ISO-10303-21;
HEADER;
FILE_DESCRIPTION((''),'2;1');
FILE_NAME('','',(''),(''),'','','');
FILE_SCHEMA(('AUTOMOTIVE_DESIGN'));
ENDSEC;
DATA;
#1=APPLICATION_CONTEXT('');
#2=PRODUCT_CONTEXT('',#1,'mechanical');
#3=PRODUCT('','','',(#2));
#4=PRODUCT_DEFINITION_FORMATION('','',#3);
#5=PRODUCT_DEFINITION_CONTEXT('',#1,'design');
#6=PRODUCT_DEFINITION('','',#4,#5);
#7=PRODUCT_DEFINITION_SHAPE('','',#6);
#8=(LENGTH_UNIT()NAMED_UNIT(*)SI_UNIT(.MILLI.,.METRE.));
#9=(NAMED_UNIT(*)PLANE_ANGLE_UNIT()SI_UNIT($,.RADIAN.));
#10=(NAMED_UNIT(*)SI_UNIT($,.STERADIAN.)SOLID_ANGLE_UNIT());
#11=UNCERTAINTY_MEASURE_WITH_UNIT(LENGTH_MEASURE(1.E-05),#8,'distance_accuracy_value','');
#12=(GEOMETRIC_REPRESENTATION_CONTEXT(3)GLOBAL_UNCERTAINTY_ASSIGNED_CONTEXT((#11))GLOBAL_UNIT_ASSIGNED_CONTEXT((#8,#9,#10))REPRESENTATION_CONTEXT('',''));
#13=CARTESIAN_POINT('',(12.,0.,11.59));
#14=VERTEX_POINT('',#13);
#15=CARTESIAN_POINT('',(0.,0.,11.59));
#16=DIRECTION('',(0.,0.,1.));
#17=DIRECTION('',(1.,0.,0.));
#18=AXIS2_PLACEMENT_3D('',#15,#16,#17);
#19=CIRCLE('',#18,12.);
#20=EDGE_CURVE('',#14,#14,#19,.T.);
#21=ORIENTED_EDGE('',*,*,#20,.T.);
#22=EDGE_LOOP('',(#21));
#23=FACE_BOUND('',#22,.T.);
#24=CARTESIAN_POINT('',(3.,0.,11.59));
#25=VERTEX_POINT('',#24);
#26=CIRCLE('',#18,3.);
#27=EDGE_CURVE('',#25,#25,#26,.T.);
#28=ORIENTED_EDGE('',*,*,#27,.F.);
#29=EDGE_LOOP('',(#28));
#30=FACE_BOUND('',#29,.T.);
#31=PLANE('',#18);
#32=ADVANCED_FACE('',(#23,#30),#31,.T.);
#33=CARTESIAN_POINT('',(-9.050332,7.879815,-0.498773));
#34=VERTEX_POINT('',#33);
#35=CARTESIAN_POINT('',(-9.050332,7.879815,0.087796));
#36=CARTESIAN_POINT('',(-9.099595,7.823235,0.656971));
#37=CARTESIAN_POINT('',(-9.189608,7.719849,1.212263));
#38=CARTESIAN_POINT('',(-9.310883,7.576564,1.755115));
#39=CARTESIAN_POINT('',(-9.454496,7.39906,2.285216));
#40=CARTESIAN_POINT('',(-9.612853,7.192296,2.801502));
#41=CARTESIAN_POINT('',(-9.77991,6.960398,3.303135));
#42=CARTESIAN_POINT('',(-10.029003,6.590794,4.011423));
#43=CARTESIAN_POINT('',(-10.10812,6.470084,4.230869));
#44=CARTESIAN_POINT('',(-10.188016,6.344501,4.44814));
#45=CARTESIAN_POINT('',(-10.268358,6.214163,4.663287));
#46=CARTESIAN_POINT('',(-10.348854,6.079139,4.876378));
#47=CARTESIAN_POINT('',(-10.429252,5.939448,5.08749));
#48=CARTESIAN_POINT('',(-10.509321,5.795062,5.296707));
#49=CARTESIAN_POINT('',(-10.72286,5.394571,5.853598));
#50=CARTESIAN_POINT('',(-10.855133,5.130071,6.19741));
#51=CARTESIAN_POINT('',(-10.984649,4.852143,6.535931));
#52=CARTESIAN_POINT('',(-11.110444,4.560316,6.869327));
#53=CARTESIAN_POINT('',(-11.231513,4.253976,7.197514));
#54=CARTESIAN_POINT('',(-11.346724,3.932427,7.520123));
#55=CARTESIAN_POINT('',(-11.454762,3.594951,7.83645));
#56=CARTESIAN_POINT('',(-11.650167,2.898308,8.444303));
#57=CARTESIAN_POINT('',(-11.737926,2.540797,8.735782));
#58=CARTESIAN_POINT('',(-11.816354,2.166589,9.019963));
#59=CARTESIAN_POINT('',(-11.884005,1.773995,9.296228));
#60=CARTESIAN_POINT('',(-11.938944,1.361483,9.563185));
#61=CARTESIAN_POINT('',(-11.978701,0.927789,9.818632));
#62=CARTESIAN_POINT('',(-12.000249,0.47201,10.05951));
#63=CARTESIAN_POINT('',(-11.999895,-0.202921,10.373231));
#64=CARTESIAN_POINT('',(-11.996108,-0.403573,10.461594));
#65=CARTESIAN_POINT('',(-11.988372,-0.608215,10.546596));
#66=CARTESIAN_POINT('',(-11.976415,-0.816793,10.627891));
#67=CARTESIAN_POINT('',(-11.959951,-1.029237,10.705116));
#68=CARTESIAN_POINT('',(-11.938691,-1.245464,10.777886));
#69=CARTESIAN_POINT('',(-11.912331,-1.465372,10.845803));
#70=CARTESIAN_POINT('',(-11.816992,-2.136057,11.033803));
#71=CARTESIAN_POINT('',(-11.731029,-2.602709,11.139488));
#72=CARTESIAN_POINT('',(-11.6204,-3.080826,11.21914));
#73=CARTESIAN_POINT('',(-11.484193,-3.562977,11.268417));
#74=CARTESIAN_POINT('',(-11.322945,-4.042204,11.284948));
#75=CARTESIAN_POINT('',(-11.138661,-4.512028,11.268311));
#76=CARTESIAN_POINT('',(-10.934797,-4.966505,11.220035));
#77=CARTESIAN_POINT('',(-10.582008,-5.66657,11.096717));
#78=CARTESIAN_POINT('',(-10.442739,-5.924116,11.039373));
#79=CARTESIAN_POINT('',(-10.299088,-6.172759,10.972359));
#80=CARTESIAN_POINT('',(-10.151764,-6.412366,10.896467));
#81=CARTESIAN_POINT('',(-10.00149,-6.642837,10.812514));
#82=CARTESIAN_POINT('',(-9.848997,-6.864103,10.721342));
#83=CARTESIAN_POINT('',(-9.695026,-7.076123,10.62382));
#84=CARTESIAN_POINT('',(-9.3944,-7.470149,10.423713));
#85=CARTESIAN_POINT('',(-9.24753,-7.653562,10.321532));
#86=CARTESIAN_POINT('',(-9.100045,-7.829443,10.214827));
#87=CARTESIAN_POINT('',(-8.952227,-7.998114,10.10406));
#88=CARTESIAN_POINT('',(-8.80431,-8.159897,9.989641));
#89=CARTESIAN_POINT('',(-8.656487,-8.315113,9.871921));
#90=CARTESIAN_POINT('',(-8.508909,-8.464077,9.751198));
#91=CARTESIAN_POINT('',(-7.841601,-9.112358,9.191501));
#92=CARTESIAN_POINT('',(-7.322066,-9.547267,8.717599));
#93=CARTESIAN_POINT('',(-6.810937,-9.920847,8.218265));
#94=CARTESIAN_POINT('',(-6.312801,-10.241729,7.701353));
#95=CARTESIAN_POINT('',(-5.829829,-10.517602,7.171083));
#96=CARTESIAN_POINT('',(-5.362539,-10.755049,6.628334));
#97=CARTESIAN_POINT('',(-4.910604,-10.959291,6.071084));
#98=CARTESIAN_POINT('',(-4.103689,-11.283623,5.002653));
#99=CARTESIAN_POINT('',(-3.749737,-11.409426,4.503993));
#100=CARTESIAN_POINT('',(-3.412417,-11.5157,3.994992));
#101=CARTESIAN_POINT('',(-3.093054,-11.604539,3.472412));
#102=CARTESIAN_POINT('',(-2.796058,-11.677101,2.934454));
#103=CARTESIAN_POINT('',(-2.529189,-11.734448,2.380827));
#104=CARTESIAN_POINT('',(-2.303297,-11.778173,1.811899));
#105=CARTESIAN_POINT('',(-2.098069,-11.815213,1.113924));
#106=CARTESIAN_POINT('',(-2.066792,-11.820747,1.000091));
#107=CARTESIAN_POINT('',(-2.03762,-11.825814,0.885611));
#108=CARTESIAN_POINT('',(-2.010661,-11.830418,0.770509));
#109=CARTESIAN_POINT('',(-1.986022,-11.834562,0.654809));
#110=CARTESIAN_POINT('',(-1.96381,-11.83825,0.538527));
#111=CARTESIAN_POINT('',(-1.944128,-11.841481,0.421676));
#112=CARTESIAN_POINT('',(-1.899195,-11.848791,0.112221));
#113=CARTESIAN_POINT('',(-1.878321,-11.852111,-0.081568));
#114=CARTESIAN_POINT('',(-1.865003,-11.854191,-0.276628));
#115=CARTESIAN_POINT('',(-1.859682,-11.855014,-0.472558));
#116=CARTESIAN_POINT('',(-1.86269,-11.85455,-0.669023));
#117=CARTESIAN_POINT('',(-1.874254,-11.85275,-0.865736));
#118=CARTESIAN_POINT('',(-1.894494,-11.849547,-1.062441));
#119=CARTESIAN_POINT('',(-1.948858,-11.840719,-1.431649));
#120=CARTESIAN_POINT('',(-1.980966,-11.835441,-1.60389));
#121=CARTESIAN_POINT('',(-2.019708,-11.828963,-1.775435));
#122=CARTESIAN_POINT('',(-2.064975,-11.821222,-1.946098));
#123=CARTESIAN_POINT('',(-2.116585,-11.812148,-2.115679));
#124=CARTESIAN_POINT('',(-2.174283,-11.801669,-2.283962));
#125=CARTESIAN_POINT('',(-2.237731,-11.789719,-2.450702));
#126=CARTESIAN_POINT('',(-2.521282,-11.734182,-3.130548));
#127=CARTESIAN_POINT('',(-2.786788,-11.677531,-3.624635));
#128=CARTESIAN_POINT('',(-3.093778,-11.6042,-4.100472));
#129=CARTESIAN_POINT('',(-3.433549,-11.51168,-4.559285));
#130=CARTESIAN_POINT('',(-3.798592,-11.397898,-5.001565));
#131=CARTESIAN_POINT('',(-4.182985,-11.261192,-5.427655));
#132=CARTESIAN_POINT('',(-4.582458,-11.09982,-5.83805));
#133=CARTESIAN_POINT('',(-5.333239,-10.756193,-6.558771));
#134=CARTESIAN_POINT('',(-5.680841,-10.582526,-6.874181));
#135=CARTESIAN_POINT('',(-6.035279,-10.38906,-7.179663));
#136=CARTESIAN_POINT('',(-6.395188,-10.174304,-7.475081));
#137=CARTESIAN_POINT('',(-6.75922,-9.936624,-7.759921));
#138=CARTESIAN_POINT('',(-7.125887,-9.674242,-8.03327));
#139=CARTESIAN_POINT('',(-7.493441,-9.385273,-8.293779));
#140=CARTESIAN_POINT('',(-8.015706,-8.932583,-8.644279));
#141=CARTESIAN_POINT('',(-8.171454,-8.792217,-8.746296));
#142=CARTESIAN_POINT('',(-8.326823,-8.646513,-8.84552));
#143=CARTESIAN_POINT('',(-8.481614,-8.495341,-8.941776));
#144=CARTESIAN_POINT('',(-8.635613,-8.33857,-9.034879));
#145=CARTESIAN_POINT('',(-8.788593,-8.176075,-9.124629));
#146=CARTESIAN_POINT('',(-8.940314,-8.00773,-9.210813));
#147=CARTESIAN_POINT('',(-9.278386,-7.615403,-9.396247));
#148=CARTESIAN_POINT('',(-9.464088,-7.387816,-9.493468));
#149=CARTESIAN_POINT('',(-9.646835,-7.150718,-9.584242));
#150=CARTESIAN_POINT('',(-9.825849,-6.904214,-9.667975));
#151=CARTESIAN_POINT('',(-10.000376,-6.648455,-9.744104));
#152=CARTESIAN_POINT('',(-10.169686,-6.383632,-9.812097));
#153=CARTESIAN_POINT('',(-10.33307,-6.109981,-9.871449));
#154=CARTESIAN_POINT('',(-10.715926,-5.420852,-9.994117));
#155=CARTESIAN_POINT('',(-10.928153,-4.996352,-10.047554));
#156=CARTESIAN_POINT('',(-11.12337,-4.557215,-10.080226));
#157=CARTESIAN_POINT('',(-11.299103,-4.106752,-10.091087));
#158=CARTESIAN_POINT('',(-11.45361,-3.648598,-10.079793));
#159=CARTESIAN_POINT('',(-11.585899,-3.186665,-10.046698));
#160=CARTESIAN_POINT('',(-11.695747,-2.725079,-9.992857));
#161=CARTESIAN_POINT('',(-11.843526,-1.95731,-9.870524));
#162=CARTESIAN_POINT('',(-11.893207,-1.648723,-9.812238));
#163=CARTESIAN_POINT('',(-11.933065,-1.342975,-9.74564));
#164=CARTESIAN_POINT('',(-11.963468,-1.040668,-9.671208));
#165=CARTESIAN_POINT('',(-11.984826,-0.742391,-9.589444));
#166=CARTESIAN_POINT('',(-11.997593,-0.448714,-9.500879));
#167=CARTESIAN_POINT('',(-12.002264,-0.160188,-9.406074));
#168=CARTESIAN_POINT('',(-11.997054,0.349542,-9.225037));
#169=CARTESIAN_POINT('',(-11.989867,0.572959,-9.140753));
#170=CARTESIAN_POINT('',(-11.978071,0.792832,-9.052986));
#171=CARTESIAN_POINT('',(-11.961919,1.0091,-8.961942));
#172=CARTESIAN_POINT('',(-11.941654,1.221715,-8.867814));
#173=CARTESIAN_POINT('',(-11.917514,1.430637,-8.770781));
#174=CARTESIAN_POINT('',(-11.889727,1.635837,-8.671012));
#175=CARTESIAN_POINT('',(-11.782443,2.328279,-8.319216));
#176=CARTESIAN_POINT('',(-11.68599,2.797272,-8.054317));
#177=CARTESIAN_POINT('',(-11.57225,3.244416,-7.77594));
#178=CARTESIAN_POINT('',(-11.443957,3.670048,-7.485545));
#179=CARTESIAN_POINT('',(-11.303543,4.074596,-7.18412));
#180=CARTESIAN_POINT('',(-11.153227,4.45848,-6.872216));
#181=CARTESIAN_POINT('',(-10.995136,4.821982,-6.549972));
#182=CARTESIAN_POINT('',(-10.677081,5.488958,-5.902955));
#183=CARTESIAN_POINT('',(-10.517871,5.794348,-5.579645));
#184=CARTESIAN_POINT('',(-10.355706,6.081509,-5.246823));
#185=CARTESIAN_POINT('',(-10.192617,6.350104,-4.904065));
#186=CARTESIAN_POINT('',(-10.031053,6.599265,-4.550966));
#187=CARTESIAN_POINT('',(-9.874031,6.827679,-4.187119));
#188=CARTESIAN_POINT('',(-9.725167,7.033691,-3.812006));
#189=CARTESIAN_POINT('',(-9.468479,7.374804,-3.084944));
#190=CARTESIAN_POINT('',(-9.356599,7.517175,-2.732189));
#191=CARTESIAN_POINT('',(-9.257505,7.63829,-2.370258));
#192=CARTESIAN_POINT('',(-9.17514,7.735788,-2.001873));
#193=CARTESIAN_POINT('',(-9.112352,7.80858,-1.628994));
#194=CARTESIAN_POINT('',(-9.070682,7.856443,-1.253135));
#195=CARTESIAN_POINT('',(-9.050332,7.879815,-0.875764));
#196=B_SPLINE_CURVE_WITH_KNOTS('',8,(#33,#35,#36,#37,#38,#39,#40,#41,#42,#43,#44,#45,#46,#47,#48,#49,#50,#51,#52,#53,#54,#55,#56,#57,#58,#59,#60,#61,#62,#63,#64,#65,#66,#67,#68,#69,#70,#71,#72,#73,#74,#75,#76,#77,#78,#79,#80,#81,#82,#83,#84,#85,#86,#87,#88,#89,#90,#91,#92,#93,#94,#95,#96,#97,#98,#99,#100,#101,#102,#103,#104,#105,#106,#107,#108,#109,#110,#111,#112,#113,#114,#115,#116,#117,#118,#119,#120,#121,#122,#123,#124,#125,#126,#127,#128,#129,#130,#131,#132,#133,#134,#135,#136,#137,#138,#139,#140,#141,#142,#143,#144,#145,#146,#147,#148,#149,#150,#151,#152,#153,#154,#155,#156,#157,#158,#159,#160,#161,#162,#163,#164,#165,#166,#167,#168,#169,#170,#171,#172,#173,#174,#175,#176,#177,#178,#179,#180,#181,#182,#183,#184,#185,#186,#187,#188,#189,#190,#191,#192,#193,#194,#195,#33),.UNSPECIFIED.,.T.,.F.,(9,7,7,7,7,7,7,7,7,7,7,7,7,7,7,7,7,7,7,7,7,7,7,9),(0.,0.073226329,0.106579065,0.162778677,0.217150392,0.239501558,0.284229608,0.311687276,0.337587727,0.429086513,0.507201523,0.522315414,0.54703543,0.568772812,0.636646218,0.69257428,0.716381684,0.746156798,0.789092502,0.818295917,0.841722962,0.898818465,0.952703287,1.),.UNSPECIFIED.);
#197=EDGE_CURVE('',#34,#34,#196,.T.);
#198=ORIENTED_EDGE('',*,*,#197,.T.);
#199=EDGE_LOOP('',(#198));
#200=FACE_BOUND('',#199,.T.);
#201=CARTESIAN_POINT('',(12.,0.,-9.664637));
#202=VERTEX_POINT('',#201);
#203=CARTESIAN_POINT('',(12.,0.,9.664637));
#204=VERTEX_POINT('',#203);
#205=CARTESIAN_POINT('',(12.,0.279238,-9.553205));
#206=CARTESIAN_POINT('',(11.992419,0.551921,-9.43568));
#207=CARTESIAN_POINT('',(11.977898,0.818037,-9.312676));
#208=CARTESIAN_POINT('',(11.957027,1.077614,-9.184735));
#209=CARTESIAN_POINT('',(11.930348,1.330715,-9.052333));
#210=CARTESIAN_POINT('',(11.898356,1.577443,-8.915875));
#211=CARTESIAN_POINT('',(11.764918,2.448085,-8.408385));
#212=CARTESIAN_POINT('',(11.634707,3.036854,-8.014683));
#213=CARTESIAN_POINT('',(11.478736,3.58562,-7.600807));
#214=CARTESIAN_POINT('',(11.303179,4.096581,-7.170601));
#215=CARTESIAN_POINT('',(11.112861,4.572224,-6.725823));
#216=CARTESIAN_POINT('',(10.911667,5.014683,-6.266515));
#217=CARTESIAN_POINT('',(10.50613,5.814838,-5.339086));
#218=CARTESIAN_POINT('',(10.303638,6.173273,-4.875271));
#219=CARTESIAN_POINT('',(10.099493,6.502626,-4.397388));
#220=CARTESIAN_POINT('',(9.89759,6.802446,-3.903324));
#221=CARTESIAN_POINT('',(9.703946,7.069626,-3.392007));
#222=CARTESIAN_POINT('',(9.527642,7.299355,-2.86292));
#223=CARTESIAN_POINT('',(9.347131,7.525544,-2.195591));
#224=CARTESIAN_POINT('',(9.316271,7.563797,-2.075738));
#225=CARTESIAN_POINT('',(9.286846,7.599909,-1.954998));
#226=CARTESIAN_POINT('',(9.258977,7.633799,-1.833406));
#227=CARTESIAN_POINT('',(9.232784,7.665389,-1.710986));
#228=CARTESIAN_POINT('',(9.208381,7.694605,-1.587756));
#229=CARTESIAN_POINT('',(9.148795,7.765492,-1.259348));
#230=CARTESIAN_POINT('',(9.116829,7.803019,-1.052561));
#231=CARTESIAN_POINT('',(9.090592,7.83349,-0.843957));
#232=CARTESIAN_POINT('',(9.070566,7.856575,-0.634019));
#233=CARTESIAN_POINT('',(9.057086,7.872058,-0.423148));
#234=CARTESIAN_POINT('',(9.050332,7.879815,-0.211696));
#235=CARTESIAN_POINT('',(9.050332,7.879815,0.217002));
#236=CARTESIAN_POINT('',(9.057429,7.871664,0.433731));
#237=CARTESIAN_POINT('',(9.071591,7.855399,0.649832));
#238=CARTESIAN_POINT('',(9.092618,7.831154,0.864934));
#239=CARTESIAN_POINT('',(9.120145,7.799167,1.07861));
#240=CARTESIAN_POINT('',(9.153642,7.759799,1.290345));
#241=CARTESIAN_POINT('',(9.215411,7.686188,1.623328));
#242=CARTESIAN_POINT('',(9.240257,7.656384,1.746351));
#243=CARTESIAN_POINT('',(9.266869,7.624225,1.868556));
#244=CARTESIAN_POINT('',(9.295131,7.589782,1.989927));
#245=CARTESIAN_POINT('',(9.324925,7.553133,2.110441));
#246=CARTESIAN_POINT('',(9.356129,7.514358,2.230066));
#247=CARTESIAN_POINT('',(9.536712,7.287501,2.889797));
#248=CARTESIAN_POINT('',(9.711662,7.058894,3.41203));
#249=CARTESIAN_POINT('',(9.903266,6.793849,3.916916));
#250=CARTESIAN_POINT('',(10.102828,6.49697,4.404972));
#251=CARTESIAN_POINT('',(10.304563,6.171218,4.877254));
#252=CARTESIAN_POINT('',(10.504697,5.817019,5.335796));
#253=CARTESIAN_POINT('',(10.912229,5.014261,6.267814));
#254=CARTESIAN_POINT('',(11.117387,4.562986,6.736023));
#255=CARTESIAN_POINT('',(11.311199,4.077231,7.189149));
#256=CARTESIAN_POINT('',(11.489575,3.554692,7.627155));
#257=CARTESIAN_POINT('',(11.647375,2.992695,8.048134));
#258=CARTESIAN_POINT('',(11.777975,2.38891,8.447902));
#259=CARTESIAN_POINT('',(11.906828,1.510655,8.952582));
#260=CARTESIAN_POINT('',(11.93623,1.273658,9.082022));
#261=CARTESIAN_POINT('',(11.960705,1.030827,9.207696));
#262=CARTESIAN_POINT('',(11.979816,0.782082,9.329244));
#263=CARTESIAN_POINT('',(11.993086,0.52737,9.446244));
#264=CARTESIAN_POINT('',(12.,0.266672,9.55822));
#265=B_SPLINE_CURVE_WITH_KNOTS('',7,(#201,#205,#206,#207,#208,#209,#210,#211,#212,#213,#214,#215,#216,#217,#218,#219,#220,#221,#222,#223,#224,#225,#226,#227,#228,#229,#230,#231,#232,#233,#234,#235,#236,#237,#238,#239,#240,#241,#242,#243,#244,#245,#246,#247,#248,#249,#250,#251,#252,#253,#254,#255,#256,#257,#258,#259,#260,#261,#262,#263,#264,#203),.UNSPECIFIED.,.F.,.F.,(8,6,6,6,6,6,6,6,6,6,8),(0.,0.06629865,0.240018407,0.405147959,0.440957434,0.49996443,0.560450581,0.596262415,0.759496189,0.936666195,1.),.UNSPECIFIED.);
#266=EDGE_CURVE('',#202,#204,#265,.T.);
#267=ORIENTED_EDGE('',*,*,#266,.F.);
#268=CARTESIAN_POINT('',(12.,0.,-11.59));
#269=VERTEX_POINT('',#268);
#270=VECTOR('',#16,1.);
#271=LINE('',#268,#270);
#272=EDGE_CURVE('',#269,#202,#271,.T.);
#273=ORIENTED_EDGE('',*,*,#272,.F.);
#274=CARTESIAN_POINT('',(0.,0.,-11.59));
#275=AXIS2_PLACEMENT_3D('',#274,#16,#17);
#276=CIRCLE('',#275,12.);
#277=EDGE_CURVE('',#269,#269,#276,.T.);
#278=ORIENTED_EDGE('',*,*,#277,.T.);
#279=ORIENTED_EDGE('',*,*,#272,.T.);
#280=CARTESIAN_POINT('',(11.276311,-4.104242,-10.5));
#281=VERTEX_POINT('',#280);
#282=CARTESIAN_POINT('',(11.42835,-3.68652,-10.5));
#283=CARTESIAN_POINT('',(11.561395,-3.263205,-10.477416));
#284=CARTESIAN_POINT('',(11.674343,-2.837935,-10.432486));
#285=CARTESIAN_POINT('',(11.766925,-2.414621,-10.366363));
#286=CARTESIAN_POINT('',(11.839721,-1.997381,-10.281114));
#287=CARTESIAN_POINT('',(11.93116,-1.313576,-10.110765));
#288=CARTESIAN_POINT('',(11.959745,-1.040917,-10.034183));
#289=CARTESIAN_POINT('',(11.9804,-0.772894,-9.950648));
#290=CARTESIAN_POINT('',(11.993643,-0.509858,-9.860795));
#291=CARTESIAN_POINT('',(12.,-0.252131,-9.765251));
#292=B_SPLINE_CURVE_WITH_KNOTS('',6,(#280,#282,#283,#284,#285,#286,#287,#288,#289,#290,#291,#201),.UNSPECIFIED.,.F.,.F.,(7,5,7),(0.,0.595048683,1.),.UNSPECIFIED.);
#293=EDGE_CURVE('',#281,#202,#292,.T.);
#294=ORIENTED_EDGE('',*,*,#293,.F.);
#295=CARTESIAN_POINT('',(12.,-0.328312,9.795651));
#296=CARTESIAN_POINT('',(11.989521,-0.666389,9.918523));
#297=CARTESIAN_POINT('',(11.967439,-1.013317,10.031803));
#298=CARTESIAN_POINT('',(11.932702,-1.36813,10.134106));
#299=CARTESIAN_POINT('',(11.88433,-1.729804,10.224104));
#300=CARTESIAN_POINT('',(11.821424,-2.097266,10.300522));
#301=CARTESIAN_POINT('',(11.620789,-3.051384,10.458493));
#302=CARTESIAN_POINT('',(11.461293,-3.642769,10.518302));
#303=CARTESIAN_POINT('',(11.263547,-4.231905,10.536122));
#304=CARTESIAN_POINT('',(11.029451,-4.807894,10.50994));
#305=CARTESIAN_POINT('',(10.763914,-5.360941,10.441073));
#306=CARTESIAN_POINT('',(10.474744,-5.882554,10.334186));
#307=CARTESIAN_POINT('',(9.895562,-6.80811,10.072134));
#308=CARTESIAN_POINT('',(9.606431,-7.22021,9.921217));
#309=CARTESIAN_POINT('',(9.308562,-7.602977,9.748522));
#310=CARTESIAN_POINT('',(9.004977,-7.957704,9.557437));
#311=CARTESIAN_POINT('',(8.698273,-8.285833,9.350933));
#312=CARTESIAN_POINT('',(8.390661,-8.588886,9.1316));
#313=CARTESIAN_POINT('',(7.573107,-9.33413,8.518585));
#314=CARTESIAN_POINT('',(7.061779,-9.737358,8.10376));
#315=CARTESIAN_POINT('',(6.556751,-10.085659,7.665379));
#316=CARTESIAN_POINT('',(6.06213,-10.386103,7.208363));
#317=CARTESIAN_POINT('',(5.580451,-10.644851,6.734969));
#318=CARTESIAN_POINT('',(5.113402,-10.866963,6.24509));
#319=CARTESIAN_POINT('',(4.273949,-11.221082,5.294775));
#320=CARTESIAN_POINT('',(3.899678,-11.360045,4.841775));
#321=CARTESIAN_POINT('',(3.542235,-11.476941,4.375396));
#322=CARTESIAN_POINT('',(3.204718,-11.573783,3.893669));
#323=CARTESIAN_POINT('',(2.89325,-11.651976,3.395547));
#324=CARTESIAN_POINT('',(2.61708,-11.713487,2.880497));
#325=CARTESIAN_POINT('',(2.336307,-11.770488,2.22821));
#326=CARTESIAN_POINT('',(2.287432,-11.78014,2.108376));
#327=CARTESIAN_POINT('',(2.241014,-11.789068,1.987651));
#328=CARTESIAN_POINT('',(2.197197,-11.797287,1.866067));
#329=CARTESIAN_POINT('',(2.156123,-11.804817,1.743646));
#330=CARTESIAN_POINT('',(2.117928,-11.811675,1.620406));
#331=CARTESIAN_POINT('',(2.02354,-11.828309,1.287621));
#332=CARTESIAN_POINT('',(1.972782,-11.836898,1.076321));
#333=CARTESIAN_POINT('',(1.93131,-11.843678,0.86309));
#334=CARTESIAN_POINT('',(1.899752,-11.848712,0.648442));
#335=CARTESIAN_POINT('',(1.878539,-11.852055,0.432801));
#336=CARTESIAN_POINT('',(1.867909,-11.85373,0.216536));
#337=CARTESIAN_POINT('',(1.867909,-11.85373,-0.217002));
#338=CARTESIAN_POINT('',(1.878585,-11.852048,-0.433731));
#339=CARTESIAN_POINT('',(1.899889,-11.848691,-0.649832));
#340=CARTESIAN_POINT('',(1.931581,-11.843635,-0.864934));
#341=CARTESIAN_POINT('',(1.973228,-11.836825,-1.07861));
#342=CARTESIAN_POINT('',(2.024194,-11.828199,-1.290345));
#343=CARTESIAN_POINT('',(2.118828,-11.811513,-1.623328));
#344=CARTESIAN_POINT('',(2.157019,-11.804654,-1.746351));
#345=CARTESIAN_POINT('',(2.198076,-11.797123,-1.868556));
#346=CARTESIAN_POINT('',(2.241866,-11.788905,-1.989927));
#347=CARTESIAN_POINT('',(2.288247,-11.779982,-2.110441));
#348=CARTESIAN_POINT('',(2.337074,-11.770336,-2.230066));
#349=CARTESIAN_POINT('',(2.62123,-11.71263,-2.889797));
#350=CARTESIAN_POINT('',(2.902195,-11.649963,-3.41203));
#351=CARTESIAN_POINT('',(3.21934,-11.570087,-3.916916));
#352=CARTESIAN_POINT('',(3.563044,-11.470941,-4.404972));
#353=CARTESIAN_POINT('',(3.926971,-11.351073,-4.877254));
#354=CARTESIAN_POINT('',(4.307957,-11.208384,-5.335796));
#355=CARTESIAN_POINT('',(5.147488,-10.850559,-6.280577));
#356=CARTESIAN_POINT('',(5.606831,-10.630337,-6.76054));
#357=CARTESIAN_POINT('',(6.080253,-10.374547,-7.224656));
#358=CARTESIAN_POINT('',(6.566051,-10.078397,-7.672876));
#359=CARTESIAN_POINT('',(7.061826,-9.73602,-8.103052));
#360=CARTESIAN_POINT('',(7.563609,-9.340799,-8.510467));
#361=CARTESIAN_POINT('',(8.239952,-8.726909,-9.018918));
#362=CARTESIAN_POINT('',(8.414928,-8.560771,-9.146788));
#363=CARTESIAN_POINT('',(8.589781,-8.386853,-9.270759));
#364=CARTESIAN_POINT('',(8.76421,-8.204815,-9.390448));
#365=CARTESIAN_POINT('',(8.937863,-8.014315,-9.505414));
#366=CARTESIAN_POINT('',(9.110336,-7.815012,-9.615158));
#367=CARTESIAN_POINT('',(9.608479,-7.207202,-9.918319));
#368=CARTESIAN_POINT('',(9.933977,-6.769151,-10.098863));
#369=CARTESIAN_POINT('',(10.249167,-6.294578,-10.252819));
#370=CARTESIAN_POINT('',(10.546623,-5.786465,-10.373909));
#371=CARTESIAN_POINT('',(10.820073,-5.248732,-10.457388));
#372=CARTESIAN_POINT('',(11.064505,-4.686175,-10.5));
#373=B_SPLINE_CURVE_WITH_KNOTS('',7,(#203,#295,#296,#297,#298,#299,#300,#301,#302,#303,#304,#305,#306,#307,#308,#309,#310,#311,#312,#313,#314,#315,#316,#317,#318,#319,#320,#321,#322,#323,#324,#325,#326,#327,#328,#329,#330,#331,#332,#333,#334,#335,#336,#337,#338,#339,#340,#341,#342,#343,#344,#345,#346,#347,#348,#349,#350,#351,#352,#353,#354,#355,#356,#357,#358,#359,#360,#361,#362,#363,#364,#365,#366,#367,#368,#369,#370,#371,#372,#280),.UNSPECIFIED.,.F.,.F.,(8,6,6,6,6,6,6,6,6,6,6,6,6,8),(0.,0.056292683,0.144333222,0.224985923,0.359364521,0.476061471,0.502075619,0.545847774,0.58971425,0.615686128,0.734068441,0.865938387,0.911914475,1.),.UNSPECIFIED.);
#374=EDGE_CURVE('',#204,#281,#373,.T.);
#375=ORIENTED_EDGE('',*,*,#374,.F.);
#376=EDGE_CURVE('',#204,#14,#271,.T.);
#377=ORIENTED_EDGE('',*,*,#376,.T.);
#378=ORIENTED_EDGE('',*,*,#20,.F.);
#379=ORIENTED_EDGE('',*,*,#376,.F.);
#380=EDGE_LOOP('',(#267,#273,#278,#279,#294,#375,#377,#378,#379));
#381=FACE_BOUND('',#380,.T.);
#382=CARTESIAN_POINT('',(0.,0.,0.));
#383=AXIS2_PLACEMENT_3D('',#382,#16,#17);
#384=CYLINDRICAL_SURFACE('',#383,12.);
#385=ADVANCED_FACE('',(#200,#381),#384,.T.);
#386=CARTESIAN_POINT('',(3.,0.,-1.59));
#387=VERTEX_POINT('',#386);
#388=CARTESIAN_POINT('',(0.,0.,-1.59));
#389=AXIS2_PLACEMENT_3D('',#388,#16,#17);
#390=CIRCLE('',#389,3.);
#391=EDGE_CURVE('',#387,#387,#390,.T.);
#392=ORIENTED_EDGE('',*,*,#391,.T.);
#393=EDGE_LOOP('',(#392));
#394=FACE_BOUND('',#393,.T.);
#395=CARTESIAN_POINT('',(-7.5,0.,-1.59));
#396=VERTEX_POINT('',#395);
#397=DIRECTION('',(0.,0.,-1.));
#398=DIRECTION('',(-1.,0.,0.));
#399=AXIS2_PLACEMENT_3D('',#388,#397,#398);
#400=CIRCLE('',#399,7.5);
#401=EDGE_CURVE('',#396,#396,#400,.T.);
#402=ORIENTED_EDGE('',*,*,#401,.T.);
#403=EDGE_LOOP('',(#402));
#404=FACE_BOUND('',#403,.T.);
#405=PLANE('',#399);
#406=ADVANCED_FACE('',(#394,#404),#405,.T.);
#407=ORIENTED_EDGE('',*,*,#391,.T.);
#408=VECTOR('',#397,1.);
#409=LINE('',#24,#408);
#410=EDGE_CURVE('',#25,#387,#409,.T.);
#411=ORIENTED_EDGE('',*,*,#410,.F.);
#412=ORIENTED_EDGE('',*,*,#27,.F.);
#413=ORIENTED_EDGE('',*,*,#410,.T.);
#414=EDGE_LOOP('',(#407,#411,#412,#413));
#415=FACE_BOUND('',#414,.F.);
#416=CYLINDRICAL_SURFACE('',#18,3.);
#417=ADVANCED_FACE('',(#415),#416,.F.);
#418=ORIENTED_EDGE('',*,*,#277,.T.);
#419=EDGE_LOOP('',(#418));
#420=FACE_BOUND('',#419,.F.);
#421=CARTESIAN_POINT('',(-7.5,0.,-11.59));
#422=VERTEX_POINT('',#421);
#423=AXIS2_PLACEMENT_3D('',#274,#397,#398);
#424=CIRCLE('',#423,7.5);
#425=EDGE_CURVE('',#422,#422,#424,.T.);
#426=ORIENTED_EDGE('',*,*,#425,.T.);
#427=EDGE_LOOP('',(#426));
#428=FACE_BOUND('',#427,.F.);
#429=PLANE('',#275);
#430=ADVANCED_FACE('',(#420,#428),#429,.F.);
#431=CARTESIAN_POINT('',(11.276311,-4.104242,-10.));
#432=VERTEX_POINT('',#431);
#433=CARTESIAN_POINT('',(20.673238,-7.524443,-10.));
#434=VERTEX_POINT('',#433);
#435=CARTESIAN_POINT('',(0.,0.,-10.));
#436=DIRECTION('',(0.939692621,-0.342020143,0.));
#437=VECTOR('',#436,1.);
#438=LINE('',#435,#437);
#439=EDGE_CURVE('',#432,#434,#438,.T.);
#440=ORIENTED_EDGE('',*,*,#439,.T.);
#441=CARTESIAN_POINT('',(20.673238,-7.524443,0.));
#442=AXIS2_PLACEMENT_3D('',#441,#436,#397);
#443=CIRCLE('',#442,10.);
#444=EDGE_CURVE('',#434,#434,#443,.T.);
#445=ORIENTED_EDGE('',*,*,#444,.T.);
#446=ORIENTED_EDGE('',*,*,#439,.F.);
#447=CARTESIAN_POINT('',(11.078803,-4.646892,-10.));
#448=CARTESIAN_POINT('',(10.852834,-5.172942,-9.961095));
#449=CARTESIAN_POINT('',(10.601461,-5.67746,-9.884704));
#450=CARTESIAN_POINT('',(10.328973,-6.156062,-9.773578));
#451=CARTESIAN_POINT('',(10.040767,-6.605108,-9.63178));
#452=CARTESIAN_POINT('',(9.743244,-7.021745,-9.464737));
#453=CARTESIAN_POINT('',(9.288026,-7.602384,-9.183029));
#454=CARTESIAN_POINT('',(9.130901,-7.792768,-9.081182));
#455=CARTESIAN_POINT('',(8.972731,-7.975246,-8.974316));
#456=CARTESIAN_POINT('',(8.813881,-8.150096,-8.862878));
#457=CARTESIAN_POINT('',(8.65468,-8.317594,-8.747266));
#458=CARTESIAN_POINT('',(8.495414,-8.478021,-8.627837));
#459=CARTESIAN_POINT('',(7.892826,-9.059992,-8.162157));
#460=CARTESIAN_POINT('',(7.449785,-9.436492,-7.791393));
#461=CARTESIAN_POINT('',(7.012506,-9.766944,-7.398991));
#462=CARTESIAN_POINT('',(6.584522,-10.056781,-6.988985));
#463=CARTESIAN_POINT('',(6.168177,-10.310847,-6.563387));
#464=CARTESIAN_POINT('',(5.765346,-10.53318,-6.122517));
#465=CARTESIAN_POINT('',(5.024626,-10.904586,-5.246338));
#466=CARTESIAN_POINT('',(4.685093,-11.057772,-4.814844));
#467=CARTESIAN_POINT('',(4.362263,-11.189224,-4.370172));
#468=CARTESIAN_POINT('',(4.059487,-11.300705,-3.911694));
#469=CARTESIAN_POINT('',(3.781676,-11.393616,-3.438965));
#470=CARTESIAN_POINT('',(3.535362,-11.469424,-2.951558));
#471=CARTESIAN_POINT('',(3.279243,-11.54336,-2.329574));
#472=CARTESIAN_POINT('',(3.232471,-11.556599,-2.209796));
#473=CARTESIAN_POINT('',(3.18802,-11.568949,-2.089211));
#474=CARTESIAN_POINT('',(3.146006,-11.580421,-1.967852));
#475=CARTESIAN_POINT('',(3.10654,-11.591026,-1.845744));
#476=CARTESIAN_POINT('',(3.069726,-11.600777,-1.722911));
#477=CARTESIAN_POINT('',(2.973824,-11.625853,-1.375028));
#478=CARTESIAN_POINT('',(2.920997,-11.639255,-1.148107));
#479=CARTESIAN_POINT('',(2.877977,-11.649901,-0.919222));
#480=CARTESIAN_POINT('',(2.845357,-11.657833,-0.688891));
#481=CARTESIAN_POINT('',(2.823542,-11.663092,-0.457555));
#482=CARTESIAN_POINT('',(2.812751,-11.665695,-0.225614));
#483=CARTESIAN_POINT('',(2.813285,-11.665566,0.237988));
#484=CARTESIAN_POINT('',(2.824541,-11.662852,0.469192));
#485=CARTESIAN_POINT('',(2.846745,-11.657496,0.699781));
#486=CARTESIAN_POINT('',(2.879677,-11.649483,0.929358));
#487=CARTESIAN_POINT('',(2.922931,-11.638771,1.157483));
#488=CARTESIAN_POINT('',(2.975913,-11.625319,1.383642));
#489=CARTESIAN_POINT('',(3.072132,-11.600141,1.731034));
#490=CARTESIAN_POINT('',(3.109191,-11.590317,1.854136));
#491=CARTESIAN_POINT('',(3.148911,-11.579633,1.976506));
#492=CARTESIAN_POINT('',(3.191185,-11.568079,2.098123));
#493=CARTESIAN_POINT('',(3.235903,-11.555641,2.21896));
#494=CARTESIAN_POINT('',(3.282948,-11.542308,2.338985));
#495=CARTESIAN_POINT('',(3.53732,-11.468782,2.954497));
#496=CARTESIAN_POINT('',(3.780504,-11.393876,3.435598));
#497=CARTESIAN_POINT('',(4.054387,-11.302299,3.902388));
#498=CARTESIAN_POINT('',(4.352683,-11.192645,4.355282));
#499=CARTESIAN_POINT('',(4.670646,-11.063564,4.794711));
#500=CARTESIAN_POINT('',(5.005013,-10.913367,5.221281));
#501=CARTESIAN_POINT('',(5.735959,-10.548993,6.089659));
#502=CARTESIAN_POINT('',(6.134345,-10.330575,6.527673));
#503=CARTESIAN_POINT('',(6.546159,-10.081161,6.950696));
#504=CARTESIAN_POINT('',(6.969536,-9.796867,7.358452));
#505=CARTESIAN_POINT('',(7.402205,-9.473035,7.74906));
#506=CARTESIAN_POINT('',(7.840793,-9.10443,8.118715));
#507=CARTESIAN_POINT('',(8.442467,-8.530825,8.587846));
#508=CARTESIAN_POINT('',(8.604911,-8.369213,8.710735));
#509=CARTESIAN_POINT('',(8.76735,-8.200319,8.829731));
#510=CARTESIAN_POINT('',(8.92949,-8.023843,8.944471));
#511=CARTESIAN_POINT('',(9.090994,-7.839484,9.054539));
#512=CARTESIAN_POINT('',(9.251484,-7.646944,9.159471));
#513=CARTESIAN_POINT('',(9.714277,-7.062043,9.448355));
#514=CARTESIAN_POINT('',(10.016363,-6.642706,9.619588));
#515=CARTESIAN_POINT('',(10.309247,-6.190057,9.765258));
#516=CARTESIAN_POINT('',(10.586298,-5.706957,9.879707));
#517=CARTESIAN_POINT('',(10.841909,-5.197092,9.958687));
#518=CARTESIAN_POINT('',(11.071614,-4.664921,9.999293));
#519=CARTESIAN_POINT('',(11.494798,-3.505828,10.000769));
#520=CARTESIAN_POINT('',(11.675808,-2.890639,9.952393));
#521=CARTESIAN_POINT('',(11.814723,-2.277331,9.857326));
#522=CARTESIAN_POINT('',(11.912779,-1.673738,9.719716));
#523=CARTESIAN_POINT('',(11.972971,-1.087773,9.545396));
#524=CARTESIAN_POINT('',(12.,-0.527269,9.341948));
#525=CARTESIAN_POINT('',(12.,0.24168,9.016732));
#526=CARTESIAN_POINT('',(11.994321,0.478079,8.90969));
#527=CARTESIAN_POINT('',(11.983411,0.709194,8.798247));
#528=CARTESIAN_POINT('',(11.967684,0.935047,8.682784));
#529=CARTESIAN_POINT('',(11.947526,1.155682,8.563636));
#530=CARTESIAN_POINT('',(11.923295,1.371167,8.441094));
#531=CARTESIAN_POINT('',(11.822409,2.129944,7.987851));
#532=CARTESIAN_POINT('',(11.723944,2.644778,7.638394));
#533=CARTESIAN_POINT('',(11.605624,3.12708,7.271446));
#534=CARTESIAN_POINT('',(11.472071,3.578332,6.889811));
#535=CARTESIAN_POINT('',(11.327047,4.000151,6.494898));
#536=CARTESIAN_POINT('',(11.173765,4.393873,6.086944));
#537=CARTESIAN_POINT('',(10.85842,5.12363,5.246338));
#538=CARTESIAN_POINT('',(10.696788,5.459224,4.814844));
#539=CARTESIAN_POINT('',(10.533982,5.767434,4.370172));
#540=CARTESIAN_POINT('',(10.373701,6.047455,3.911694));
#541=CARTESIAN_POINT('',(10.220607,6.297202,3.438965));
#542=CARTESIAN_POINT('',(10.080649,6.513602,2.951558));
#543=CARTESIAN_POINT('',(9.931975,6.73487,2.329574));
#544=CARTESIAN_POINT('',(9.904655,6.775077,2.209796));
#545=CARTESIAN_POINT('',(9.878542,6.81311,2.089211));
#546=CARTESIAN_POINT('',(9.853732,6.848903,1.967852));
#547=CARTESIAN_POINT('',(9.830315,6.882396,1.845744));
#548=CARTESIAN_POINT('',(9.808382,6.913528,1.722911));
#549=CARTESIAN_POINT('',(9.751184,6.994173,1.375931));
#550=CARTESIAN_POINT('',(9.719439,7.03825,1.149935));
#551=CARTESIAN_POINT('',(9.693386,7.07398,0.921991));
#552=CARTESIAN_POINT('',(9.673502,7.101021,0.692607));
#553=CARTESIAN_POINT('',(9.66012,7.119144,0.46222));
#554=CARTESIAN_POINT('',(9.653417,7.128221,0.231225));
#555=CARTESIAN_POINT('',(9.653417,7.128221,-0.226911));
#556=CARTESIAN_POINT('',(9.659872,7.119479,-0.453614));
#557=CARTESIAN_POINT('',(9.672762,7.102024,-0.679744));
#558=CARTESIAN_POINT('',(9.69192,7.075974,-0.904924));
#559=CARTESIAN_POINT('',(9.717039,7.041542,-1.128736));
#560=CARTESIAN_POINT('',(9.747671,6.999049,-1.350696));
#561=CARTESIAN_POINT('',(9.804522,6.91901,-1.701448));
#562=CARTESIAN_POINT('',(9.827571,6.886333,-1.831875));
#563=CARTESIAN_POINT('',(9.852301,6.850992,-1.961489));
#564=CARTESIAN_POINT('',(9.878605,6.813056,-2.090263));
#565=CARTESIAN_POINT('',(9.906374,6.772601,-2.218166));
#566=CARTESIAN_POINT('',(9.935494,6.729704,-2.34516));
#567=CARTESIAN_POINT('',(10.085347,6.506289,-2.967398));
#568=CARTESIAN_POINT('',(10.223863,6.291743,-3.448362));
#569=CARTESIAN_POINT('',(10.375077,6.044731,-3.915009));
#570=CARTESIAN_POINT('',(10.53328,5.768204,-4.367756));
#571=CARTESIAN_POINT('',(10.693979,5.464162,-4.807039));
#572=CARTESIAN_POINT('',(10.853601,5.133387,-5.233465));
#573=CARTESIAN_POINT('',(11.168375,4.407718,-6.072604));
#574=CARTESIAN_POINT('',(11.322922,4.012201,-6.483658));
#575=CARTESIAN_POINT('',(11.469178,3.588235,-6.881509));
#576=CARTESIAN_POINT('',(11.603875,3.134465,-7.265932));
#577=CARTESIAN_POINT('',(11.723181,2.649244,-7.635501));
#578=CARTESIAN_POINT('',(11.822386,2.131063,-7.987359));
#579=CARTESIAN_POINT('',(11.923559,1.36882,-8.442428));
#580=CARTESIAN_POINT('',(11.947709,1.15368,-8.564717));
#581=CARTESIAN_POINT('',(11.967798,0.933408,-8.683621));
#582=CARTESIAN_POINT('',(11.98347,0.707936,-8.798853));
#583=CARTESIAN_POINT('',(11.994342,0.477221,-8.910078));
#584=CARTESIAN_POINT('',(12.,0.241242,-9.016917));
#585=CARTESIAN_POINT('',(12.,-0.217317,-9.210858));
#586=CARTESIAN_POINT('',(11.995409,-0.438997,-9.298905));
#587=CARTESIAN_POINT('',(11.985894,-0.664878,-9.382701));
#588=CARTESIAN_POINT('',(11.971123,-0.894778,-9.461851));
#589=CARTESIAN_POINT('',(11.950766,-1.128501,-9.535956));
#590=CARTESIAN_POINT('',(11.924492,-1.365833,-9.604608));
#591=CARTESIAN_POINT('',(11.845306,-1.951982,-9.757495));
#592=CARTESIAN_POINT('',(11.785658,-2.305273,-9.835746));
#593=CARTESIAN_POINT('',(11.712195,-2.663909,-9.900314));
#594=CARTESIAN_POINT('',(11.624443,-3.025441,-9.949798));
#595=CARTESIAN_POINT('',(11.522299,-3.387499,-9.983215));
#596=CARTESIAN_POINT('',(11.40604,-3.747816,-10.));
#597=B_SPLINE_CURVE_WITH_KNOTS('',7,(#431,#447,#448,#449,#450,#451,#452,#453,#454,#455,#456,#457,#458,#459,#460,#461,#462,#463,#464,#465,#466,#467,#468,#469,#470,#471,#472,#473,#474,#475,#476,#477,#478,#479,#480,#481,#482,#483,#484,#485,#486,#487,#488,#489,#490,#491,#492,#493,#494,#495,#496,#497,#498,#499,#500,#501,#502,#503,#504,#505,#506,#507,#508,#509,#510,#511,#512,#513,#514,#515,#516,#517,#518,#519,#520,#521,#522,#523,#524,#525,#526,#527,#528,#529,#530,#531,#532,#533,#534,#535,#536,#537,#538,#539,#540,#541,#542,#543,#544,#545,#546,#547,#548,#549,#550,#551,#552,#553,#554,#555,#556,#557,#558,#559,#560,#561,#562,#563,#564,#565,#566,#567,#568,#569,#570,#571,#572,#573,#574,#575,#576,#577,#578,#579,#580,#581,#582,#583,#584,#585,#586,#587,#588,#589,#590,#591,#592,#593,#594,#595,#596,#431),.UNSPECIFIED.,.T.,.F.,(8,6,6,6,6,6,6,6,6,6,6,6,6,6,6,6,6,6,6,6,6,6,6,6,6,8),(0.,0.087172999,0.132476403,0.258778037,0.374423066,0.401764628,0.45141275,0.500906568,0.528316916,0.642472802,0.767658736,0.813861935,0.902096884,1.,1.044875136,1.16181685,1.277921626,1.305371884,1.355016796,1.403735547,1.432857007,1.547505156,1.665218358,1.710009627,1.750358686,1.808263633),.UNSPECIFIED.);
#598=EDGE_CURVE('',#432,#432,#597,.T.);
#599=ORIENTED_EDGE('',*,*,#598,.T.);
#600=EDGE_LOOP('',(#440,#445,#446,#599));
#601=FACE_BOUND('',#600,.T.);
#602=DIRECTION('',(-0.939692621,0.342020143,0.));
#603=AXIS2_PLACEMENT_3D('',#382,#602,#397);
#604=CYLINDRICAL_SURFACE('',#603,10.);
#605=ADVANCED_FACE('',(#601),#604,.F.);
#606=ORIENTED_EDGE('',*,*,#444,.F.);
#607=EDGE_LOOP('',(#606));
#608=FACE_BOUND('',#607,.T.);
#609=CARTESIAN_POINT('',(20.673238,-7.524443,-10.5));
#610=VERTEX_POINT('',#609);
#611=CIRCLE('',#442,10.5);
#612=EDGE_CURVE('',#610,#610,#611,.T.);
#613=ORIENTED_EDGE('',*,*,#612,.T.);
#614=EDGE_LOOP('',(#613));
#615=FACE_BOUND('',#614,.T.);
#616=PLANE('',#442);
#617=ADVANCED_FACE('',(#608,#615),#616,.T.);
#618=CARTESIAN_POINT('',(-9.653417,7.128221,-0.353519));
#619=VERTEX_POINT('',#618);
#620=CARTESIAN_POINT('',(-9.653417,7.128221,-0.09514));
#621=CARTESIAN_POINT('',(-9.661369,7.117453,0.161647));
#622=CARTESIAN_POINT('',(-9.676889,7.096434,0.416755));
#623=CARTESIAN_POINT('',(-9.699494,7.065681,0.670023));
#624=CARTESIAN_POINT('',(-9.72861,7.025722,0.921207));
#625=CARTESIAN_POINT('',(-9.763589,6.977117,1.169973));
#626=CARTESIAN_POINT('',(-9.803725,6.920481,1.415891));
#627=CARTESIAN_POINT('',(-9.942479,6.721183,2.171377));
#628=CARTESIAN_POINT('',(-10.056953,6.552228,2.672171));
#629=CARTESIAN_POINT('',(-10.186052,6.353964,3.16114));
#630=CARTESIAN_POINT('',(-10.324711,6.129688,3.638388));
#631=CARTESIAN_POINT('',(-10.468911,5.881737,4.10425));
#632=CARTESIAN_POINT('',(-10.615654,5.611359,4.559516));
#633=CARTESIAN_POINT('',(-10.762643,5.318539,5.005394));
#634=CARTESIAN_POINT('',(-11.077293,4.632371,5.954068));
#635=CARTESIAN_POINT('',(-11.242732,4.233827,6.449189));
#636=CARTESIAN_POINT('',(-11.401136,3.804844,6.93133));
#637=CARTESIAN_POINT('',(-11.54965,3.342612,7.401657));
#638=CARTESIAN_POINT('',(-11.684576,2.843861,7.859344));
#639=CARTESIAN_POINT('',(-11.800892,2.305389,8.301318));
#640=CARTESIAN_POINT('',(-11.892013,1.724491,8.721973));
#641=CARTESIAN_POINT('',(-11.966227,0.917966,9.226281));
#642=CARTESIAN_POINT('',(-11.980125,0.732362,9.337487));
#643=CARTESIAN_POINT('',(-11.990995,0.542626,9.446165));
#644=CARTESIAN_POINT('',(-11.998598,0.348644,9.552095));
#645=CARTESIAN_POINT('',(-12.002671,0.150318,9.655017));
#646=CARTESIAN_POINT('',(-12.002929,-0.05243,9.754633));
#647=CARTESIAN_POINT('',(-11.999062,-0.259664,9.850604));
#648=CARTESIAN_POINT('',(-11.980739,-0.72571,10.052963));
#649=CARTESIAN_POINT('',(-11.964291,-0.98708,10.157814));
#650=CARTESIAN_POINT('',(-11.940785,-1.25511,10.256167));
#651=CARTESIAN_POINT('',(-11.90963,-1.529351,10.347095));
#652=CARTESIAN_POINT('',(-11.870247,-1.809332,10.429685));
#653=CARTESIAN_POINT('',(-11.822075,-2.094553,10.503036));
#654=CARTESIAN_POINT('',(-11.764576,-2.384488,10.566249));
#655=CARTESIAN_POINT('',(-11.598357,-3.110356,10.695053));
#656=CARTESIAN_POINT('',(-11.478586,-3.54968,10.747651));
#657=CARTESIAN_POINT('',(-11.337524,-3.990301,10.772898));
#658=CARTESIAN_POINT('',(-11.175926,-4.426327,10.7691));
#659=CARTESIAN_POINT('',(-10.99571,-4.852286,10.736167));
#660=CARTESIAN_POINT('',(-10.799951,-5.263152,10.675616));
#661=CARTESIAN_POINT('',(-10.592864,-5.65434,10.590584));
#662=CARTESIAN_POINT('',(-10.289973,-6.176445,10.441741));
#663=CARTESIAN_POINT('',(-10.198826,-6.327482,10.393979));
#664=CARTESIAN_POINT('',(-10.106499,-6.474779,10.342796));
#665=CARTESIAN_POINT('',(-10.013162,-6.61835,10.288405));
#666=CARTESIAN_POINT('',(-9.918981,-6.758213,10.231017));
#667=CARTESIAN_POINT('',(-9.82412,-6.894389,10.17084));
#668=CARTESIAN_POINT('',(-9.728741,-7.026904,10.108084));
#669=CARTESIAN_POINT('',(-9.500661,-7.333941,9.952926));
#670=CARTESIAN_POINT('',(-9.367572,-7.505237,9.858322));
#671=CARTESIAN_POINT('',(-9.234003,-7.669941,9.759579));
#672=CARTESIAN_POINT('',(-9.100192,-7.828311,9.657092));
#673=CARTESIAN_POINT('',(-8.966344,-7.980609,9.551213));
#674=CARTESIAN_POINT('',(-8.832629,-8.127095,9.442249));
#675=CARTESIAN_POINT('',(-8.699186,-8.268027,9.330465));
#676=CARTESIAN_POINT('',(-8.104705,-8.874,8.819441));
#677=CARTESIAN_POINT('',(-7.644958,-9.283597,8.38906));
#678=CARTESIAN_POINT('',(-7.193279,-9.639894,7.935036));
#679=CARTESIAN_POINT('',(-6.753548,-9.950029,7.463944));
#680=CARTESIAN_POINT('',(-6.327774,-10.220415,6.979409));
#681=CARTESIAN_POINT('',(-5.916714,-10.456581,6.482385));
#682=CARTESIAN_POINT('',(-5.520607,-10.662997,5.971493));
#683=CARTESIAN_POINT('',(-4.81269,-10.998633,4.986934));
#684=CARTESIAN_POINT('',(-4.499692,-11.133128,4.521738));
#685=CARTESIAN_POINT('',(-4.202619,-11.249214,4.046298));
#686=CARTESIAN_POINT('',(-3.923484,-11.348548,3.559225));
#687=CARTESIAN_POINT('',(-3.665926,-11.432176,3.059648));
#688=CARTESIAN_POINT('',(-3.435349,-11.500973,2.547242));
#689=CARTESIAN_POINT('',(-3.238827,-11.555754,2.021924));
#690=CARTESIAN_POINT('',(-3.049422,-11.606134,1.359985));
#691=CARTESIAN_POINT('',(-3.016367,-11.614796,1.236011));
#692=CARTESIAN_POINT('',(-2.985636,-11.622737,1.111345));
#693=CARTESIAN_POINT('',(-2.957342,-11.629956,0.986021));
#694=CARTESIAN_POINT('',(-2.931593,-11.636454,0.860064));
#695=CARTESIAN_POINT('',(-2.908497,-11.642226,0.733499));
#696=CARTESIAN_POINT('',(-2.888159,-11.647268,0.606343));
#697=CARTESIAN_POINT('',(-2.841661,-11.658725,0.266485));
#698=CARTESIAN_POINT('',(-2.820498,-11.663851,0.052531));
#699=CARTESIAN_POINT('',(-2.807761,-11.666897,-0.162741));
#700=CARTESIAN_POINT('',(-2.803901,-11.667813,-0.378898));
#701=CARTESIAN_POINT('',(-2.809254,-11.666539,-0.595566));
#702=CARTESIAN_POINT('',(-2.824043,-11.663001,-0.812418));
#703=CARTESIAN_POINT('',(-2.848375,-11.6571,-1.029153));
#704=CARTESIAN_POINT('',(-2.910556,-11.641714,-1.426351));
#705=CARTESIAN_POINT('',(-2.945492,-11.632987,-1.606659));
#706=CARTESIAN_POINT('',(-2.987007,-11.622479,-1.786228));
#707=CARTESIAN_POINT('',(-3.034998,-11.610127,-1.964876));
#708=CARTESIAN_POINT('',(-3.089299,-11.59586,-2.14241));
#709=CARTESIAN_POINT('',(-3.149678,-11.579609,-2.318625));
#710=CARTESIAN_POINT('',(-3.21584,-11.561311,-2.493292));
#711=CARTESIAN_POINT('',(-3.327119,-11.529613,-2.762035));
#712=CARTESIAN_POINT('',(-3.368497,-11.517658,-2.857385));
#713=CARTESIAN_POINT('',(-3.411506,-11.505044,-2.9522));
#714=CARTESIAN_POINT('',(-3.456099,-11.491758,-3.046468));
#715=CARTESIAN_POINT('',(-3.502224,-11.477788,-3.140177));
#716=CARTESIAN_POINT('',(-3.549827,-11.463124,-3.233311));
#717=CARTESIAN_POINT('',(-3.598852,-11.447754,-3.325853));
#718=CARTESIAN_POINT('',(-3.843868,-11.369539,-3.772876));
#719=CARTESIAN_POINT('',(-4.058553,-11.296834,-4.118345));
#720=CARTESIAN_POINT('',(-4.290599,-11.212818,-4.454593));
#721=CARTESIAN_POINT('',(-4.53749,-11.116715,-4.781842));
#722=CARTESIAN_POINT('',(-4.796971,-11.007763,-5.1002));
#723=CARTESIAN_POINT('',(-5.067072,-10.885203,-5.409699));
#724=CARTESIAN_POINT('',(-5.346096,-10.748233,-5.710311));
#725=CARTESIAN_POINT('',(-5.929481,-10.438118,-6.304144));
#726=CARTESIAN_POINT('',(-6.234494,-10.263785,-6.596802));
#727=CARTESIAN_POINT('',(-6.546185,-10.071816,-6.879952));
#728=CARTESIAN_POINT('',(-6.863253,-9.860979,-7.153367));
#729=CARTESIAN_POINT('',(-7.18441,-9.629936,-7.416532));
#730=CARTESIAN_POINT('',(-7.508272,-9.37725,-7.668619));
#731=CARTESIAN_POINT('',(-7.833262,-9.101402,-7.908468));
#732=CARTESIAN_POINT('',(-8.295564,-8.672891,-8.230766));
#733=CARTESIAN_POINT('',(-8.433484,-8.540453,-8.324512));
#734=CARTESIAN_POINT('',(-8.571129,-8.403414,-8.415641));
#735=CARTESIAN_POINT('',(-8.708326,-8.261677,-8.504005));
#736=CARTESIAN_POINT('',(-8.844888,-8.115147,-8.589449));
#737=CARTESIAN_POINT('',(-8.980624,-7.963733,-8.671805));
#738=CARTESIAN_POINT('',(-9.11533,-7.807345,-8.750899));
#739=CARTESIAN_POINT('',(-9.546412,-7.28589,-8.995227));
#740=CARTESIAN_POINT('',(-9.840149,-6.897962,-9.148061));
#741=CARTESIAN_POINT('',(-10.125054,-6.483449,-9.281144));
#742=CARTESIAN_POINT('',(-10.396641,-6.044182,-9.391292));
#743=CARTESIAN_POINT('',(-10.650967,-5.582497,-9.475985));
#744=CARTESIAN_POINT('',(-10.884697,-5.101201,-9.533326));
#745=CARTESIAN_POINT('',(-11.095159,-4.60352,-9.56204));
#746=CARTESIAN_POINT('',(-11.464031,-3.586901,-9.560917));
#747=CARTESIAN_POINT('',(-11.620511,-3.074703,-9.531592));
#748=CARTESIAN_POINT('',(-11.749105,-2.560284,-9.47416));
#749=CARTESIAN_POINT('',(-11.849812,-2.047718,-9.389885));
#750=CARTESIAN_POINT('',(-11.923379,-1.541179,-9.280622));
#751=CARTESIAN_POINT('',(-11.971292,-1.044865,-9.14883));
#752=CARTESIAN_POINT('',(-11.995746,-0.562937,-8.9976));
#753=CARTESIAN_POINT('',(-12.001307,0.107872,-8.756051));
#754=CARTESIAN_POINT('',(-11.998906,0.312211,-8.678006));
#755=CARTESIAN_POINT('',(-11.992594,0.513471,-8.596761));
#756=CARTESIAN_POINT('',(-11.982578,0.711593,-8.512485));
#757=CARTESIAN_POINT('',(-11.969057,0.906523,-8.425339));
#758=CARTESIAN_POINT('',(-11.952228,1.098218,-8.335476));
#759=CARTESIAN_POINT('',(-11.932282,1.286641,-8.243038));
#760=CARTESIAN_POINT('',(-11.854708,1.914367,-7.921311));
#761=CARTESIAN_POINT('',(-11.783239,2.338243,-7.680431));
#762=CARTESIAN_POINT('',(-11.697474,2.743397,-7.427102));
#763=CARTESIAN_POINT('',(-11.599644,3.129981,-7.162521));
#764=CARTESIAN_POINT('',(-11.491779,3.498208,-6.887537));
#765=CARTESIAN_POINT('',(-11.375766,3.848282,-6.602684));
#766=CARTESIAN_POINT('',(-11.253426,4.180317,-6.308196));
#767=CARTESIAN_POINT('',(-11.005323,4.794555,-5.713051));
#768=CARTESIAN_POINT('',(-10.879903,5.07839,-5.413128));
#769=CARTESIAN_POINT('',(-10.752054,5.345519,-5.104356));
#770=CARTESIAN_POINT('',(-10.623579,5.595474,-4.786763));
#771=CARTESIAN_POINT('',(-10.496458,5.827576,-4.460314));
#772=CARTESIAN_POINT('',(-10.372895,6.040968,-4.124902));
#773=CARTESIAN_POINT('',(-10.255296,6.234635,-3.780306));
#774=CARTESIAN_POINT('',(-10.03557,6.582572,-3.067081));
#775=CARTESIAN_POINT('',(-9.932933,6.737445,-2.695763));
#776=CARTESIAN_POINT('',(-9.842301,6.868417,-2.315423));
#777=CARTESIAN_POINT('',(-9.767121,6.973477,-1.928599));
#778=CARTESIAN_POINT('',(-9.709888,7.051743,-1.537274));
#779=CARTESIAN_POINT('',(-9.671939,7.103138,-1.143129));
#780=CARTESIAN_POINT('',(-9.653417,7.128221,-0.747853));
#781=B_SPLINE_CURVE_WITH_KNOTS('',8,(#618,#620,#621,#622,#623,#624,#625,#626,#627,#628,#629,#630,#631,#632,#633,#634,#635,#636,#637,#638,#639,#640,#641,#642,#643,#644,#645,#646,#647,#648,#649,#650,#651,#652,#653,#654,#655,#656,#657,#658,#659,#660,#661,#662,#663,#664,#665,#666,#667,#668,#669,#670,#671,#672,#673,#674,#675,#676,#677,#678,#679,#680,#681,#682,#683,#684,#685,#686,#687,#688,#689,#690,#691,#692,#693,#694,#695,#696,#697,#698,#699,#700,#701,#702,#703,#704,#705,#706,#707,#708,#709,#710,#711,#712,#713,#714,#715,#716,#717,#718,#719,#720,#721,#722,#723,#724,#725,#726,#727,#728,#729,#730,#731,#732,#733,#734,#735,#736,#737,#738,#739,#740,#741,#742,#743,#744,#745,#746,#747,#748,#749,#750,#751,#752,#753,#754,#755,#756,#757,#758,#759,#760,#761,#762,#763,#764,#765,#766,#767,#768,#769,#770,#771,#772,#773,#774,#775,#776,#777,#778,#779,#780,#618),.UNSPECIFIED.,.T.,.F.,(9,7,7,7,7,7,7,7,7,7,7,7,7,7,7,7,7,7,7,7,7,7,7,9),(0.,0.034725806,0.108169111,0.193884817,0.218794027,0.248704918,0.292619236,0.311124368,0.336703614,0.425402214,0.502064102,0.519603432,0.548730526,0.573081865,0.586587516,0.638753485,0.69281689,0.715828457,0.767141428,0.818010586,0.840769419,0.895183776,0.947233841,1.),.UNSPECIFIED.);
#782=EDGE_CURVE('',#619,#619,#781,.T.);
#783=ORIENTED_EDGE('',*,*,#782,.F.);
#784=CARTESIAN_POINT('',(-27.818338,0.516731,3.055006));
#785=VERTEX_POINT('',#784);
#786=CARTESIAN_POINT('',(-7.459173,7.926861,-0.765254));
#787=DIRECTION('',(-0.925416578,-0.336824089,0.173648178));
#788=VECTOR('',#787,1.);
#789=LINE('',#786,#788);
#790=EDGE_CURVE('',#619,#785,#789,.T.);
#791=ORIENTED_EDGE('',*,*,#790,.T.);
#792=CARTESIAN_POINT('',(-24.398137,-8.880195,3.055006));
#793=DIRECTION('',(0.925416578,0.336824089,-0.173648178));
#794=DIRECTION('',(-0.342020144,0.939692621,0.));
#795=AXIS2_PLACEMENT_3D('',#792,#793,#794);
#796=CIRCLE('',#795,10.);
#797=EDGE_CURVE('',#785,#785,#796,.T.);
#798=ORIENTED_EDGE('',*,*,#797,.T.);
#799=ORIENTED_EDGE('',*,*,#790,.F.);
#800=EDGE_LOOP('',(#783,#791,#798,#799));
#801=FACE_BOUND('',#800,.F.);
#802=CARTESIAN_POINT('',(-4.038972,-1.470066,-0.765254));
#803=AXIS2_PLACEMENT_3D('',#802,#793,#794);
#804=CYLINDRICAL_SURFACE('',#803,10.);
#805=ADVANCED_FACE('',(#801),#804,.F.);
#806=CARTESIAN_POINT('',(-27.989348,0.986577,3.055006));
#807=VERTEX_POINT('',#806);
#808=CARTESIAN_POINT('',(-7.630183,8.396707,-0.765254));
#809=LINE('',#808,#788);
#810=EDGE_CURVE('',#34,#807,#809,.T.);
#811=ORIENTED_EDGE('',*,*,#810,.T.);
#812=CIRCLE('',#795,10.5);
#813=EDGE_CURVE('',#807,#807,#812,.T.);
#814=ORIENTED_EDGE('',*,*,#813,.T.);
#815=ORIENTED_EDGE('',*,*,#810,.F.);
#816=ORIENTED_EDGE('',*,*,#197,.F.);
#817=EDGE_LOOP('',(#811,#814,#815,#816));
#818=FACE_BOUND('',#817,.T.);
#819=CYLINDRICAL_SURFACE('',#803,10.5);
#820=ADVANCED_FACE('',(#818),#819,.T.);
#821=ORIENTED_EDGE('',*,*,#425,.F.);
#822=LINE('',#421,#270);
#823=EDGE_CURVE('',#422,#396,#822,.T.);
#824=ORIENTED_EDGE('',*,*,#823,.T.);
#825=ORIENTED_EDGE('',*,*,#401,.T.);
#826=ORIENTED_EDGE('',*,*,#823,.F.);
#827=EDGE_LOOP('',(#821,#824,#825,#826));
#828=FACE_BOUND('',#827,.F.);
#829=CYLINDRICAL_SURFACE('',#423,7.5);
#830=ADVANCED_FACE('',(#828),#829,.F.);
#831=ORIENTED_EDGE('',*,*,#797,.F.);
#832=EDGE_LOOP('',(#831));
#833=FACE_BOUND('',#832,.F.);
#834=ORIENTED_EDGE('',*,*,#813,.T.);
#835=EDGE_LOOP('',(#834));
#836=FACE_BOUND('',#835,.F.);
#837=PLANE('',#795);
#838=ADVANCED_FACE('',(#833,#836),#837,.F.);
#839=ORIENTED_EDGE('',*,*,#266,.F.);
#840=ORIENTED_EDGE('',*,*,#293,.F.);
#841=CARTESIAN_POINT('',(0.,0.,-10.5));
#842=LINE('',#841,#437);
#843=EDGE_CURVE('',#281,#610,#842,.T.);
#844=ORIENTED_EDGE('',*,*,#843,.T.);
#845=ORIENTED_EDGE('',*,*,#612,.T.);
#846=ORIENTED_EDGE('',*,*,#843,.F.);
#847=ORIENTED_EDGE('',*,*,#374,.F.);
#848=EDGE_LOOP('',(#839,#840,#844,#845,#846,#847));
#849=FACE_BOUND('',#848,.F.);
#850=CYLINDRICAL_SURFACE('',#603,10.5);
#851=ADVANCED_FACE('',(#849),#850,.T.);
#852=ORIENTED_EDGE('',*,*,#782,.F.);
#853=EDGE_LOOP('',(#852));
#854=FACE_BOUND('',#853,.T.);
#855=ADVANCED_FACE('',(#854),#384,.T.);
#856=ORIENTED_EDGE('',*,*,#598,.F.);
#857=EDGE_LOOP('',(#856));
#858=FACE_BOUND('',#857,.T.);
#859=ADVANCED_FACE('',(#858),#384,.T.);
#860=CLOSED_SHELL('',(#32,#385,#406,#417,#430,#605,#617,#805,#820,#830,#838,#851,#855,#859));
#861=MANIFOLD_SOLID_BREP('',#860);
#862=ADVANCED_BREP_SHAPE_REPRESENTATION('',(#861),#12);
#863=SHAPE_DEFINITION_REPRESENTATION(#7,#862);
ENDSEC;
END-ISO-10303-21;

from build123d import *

# Parameters (mm, degrees)
SKETCH1_R           = 12
BOSS_EXTRUDE1_DEPTH = 11.59
EXTRUDE_THIN2_START = -4.1
SKETCH8_R           = 10.5
SKETCH8_R_2         = 10
EXTRUDE_THIN2_DEPTH = 22
SKETCH3_R           = 10.5
SKETCH3_R_2         = 10
EXTRUDE_THIN1_DEPTH = 22
SKETCH4_R           = 7.5
CUT_EXTRUDE1_DEPTH  = 10
SKETCH5_R           = 3
CUT_EXTRUDE2_DEPTH  = 24.1800001


with BuildPart() as part:
    # Sketch1 → Boss-Extrude1 (new body, symmetric)
    with BuildSketch(Plane.XY):
        Circle(SKETCH1_R)
    extrude(amount=BOSS_EXTRUDE1_DEPTH, both=True)

    # Sketch8 → Extrude-Thin2 (add)
    with BuildSketch(Plane(origin=(0, 0, 0), x_dir=(-0.342020143, 0.939692621, 0), z_dir=(0.925416578, 0.336824089, -0.173648178)).offset(EXTRUDE_THIN2_START)):
        with Locations((0, -1.5)):
            Circle(SKETCH8_R)
        with Locations((0, -1.5)):
            Circle(SKETCH8_R_2, mode=Mode.SUBTRACT)
    extrude(amount=-EXTRUDE_THIN2_DEPTH)

    # Sketch3 → Extrude-Thin1 (add)
    with BuildSketch(Plane(origin=(0, 0, 0), x_dir=(0, 0, -1), z_dir=(0.939692621, -0.342020143, 0))):
        Circle(SKETCH3_R)
        Circle(SKETCH3_R_2, mode=Mode.SUBTRACT)
    extrude(amount=EXTRUDE_THIN1_DEPTH)

    # Sketch4 → Cut-Extrude1 (cut)
    with BuildSketch(Plane(origin=(0, 0, -11.59), x_dir=(-1, 0, 0), z_dir=(0, 0, -1))):
        Circle(SKETCH4_R)
    extrude(amount=-CUT_EXTRUDE1_DEPTH, mode=Mode.SUBTRACT)

    # Sketch5 → Cut-Extrude2 (cut, through all)
    with BuildSketch(Plane.XY.offset(11.59)):
        Circle(SKETCH5_R)
    extrude(amount=-CUT_EXTRUDE2_DEPTH, mode=Mode.SUBTRACT)


solid = part.part
